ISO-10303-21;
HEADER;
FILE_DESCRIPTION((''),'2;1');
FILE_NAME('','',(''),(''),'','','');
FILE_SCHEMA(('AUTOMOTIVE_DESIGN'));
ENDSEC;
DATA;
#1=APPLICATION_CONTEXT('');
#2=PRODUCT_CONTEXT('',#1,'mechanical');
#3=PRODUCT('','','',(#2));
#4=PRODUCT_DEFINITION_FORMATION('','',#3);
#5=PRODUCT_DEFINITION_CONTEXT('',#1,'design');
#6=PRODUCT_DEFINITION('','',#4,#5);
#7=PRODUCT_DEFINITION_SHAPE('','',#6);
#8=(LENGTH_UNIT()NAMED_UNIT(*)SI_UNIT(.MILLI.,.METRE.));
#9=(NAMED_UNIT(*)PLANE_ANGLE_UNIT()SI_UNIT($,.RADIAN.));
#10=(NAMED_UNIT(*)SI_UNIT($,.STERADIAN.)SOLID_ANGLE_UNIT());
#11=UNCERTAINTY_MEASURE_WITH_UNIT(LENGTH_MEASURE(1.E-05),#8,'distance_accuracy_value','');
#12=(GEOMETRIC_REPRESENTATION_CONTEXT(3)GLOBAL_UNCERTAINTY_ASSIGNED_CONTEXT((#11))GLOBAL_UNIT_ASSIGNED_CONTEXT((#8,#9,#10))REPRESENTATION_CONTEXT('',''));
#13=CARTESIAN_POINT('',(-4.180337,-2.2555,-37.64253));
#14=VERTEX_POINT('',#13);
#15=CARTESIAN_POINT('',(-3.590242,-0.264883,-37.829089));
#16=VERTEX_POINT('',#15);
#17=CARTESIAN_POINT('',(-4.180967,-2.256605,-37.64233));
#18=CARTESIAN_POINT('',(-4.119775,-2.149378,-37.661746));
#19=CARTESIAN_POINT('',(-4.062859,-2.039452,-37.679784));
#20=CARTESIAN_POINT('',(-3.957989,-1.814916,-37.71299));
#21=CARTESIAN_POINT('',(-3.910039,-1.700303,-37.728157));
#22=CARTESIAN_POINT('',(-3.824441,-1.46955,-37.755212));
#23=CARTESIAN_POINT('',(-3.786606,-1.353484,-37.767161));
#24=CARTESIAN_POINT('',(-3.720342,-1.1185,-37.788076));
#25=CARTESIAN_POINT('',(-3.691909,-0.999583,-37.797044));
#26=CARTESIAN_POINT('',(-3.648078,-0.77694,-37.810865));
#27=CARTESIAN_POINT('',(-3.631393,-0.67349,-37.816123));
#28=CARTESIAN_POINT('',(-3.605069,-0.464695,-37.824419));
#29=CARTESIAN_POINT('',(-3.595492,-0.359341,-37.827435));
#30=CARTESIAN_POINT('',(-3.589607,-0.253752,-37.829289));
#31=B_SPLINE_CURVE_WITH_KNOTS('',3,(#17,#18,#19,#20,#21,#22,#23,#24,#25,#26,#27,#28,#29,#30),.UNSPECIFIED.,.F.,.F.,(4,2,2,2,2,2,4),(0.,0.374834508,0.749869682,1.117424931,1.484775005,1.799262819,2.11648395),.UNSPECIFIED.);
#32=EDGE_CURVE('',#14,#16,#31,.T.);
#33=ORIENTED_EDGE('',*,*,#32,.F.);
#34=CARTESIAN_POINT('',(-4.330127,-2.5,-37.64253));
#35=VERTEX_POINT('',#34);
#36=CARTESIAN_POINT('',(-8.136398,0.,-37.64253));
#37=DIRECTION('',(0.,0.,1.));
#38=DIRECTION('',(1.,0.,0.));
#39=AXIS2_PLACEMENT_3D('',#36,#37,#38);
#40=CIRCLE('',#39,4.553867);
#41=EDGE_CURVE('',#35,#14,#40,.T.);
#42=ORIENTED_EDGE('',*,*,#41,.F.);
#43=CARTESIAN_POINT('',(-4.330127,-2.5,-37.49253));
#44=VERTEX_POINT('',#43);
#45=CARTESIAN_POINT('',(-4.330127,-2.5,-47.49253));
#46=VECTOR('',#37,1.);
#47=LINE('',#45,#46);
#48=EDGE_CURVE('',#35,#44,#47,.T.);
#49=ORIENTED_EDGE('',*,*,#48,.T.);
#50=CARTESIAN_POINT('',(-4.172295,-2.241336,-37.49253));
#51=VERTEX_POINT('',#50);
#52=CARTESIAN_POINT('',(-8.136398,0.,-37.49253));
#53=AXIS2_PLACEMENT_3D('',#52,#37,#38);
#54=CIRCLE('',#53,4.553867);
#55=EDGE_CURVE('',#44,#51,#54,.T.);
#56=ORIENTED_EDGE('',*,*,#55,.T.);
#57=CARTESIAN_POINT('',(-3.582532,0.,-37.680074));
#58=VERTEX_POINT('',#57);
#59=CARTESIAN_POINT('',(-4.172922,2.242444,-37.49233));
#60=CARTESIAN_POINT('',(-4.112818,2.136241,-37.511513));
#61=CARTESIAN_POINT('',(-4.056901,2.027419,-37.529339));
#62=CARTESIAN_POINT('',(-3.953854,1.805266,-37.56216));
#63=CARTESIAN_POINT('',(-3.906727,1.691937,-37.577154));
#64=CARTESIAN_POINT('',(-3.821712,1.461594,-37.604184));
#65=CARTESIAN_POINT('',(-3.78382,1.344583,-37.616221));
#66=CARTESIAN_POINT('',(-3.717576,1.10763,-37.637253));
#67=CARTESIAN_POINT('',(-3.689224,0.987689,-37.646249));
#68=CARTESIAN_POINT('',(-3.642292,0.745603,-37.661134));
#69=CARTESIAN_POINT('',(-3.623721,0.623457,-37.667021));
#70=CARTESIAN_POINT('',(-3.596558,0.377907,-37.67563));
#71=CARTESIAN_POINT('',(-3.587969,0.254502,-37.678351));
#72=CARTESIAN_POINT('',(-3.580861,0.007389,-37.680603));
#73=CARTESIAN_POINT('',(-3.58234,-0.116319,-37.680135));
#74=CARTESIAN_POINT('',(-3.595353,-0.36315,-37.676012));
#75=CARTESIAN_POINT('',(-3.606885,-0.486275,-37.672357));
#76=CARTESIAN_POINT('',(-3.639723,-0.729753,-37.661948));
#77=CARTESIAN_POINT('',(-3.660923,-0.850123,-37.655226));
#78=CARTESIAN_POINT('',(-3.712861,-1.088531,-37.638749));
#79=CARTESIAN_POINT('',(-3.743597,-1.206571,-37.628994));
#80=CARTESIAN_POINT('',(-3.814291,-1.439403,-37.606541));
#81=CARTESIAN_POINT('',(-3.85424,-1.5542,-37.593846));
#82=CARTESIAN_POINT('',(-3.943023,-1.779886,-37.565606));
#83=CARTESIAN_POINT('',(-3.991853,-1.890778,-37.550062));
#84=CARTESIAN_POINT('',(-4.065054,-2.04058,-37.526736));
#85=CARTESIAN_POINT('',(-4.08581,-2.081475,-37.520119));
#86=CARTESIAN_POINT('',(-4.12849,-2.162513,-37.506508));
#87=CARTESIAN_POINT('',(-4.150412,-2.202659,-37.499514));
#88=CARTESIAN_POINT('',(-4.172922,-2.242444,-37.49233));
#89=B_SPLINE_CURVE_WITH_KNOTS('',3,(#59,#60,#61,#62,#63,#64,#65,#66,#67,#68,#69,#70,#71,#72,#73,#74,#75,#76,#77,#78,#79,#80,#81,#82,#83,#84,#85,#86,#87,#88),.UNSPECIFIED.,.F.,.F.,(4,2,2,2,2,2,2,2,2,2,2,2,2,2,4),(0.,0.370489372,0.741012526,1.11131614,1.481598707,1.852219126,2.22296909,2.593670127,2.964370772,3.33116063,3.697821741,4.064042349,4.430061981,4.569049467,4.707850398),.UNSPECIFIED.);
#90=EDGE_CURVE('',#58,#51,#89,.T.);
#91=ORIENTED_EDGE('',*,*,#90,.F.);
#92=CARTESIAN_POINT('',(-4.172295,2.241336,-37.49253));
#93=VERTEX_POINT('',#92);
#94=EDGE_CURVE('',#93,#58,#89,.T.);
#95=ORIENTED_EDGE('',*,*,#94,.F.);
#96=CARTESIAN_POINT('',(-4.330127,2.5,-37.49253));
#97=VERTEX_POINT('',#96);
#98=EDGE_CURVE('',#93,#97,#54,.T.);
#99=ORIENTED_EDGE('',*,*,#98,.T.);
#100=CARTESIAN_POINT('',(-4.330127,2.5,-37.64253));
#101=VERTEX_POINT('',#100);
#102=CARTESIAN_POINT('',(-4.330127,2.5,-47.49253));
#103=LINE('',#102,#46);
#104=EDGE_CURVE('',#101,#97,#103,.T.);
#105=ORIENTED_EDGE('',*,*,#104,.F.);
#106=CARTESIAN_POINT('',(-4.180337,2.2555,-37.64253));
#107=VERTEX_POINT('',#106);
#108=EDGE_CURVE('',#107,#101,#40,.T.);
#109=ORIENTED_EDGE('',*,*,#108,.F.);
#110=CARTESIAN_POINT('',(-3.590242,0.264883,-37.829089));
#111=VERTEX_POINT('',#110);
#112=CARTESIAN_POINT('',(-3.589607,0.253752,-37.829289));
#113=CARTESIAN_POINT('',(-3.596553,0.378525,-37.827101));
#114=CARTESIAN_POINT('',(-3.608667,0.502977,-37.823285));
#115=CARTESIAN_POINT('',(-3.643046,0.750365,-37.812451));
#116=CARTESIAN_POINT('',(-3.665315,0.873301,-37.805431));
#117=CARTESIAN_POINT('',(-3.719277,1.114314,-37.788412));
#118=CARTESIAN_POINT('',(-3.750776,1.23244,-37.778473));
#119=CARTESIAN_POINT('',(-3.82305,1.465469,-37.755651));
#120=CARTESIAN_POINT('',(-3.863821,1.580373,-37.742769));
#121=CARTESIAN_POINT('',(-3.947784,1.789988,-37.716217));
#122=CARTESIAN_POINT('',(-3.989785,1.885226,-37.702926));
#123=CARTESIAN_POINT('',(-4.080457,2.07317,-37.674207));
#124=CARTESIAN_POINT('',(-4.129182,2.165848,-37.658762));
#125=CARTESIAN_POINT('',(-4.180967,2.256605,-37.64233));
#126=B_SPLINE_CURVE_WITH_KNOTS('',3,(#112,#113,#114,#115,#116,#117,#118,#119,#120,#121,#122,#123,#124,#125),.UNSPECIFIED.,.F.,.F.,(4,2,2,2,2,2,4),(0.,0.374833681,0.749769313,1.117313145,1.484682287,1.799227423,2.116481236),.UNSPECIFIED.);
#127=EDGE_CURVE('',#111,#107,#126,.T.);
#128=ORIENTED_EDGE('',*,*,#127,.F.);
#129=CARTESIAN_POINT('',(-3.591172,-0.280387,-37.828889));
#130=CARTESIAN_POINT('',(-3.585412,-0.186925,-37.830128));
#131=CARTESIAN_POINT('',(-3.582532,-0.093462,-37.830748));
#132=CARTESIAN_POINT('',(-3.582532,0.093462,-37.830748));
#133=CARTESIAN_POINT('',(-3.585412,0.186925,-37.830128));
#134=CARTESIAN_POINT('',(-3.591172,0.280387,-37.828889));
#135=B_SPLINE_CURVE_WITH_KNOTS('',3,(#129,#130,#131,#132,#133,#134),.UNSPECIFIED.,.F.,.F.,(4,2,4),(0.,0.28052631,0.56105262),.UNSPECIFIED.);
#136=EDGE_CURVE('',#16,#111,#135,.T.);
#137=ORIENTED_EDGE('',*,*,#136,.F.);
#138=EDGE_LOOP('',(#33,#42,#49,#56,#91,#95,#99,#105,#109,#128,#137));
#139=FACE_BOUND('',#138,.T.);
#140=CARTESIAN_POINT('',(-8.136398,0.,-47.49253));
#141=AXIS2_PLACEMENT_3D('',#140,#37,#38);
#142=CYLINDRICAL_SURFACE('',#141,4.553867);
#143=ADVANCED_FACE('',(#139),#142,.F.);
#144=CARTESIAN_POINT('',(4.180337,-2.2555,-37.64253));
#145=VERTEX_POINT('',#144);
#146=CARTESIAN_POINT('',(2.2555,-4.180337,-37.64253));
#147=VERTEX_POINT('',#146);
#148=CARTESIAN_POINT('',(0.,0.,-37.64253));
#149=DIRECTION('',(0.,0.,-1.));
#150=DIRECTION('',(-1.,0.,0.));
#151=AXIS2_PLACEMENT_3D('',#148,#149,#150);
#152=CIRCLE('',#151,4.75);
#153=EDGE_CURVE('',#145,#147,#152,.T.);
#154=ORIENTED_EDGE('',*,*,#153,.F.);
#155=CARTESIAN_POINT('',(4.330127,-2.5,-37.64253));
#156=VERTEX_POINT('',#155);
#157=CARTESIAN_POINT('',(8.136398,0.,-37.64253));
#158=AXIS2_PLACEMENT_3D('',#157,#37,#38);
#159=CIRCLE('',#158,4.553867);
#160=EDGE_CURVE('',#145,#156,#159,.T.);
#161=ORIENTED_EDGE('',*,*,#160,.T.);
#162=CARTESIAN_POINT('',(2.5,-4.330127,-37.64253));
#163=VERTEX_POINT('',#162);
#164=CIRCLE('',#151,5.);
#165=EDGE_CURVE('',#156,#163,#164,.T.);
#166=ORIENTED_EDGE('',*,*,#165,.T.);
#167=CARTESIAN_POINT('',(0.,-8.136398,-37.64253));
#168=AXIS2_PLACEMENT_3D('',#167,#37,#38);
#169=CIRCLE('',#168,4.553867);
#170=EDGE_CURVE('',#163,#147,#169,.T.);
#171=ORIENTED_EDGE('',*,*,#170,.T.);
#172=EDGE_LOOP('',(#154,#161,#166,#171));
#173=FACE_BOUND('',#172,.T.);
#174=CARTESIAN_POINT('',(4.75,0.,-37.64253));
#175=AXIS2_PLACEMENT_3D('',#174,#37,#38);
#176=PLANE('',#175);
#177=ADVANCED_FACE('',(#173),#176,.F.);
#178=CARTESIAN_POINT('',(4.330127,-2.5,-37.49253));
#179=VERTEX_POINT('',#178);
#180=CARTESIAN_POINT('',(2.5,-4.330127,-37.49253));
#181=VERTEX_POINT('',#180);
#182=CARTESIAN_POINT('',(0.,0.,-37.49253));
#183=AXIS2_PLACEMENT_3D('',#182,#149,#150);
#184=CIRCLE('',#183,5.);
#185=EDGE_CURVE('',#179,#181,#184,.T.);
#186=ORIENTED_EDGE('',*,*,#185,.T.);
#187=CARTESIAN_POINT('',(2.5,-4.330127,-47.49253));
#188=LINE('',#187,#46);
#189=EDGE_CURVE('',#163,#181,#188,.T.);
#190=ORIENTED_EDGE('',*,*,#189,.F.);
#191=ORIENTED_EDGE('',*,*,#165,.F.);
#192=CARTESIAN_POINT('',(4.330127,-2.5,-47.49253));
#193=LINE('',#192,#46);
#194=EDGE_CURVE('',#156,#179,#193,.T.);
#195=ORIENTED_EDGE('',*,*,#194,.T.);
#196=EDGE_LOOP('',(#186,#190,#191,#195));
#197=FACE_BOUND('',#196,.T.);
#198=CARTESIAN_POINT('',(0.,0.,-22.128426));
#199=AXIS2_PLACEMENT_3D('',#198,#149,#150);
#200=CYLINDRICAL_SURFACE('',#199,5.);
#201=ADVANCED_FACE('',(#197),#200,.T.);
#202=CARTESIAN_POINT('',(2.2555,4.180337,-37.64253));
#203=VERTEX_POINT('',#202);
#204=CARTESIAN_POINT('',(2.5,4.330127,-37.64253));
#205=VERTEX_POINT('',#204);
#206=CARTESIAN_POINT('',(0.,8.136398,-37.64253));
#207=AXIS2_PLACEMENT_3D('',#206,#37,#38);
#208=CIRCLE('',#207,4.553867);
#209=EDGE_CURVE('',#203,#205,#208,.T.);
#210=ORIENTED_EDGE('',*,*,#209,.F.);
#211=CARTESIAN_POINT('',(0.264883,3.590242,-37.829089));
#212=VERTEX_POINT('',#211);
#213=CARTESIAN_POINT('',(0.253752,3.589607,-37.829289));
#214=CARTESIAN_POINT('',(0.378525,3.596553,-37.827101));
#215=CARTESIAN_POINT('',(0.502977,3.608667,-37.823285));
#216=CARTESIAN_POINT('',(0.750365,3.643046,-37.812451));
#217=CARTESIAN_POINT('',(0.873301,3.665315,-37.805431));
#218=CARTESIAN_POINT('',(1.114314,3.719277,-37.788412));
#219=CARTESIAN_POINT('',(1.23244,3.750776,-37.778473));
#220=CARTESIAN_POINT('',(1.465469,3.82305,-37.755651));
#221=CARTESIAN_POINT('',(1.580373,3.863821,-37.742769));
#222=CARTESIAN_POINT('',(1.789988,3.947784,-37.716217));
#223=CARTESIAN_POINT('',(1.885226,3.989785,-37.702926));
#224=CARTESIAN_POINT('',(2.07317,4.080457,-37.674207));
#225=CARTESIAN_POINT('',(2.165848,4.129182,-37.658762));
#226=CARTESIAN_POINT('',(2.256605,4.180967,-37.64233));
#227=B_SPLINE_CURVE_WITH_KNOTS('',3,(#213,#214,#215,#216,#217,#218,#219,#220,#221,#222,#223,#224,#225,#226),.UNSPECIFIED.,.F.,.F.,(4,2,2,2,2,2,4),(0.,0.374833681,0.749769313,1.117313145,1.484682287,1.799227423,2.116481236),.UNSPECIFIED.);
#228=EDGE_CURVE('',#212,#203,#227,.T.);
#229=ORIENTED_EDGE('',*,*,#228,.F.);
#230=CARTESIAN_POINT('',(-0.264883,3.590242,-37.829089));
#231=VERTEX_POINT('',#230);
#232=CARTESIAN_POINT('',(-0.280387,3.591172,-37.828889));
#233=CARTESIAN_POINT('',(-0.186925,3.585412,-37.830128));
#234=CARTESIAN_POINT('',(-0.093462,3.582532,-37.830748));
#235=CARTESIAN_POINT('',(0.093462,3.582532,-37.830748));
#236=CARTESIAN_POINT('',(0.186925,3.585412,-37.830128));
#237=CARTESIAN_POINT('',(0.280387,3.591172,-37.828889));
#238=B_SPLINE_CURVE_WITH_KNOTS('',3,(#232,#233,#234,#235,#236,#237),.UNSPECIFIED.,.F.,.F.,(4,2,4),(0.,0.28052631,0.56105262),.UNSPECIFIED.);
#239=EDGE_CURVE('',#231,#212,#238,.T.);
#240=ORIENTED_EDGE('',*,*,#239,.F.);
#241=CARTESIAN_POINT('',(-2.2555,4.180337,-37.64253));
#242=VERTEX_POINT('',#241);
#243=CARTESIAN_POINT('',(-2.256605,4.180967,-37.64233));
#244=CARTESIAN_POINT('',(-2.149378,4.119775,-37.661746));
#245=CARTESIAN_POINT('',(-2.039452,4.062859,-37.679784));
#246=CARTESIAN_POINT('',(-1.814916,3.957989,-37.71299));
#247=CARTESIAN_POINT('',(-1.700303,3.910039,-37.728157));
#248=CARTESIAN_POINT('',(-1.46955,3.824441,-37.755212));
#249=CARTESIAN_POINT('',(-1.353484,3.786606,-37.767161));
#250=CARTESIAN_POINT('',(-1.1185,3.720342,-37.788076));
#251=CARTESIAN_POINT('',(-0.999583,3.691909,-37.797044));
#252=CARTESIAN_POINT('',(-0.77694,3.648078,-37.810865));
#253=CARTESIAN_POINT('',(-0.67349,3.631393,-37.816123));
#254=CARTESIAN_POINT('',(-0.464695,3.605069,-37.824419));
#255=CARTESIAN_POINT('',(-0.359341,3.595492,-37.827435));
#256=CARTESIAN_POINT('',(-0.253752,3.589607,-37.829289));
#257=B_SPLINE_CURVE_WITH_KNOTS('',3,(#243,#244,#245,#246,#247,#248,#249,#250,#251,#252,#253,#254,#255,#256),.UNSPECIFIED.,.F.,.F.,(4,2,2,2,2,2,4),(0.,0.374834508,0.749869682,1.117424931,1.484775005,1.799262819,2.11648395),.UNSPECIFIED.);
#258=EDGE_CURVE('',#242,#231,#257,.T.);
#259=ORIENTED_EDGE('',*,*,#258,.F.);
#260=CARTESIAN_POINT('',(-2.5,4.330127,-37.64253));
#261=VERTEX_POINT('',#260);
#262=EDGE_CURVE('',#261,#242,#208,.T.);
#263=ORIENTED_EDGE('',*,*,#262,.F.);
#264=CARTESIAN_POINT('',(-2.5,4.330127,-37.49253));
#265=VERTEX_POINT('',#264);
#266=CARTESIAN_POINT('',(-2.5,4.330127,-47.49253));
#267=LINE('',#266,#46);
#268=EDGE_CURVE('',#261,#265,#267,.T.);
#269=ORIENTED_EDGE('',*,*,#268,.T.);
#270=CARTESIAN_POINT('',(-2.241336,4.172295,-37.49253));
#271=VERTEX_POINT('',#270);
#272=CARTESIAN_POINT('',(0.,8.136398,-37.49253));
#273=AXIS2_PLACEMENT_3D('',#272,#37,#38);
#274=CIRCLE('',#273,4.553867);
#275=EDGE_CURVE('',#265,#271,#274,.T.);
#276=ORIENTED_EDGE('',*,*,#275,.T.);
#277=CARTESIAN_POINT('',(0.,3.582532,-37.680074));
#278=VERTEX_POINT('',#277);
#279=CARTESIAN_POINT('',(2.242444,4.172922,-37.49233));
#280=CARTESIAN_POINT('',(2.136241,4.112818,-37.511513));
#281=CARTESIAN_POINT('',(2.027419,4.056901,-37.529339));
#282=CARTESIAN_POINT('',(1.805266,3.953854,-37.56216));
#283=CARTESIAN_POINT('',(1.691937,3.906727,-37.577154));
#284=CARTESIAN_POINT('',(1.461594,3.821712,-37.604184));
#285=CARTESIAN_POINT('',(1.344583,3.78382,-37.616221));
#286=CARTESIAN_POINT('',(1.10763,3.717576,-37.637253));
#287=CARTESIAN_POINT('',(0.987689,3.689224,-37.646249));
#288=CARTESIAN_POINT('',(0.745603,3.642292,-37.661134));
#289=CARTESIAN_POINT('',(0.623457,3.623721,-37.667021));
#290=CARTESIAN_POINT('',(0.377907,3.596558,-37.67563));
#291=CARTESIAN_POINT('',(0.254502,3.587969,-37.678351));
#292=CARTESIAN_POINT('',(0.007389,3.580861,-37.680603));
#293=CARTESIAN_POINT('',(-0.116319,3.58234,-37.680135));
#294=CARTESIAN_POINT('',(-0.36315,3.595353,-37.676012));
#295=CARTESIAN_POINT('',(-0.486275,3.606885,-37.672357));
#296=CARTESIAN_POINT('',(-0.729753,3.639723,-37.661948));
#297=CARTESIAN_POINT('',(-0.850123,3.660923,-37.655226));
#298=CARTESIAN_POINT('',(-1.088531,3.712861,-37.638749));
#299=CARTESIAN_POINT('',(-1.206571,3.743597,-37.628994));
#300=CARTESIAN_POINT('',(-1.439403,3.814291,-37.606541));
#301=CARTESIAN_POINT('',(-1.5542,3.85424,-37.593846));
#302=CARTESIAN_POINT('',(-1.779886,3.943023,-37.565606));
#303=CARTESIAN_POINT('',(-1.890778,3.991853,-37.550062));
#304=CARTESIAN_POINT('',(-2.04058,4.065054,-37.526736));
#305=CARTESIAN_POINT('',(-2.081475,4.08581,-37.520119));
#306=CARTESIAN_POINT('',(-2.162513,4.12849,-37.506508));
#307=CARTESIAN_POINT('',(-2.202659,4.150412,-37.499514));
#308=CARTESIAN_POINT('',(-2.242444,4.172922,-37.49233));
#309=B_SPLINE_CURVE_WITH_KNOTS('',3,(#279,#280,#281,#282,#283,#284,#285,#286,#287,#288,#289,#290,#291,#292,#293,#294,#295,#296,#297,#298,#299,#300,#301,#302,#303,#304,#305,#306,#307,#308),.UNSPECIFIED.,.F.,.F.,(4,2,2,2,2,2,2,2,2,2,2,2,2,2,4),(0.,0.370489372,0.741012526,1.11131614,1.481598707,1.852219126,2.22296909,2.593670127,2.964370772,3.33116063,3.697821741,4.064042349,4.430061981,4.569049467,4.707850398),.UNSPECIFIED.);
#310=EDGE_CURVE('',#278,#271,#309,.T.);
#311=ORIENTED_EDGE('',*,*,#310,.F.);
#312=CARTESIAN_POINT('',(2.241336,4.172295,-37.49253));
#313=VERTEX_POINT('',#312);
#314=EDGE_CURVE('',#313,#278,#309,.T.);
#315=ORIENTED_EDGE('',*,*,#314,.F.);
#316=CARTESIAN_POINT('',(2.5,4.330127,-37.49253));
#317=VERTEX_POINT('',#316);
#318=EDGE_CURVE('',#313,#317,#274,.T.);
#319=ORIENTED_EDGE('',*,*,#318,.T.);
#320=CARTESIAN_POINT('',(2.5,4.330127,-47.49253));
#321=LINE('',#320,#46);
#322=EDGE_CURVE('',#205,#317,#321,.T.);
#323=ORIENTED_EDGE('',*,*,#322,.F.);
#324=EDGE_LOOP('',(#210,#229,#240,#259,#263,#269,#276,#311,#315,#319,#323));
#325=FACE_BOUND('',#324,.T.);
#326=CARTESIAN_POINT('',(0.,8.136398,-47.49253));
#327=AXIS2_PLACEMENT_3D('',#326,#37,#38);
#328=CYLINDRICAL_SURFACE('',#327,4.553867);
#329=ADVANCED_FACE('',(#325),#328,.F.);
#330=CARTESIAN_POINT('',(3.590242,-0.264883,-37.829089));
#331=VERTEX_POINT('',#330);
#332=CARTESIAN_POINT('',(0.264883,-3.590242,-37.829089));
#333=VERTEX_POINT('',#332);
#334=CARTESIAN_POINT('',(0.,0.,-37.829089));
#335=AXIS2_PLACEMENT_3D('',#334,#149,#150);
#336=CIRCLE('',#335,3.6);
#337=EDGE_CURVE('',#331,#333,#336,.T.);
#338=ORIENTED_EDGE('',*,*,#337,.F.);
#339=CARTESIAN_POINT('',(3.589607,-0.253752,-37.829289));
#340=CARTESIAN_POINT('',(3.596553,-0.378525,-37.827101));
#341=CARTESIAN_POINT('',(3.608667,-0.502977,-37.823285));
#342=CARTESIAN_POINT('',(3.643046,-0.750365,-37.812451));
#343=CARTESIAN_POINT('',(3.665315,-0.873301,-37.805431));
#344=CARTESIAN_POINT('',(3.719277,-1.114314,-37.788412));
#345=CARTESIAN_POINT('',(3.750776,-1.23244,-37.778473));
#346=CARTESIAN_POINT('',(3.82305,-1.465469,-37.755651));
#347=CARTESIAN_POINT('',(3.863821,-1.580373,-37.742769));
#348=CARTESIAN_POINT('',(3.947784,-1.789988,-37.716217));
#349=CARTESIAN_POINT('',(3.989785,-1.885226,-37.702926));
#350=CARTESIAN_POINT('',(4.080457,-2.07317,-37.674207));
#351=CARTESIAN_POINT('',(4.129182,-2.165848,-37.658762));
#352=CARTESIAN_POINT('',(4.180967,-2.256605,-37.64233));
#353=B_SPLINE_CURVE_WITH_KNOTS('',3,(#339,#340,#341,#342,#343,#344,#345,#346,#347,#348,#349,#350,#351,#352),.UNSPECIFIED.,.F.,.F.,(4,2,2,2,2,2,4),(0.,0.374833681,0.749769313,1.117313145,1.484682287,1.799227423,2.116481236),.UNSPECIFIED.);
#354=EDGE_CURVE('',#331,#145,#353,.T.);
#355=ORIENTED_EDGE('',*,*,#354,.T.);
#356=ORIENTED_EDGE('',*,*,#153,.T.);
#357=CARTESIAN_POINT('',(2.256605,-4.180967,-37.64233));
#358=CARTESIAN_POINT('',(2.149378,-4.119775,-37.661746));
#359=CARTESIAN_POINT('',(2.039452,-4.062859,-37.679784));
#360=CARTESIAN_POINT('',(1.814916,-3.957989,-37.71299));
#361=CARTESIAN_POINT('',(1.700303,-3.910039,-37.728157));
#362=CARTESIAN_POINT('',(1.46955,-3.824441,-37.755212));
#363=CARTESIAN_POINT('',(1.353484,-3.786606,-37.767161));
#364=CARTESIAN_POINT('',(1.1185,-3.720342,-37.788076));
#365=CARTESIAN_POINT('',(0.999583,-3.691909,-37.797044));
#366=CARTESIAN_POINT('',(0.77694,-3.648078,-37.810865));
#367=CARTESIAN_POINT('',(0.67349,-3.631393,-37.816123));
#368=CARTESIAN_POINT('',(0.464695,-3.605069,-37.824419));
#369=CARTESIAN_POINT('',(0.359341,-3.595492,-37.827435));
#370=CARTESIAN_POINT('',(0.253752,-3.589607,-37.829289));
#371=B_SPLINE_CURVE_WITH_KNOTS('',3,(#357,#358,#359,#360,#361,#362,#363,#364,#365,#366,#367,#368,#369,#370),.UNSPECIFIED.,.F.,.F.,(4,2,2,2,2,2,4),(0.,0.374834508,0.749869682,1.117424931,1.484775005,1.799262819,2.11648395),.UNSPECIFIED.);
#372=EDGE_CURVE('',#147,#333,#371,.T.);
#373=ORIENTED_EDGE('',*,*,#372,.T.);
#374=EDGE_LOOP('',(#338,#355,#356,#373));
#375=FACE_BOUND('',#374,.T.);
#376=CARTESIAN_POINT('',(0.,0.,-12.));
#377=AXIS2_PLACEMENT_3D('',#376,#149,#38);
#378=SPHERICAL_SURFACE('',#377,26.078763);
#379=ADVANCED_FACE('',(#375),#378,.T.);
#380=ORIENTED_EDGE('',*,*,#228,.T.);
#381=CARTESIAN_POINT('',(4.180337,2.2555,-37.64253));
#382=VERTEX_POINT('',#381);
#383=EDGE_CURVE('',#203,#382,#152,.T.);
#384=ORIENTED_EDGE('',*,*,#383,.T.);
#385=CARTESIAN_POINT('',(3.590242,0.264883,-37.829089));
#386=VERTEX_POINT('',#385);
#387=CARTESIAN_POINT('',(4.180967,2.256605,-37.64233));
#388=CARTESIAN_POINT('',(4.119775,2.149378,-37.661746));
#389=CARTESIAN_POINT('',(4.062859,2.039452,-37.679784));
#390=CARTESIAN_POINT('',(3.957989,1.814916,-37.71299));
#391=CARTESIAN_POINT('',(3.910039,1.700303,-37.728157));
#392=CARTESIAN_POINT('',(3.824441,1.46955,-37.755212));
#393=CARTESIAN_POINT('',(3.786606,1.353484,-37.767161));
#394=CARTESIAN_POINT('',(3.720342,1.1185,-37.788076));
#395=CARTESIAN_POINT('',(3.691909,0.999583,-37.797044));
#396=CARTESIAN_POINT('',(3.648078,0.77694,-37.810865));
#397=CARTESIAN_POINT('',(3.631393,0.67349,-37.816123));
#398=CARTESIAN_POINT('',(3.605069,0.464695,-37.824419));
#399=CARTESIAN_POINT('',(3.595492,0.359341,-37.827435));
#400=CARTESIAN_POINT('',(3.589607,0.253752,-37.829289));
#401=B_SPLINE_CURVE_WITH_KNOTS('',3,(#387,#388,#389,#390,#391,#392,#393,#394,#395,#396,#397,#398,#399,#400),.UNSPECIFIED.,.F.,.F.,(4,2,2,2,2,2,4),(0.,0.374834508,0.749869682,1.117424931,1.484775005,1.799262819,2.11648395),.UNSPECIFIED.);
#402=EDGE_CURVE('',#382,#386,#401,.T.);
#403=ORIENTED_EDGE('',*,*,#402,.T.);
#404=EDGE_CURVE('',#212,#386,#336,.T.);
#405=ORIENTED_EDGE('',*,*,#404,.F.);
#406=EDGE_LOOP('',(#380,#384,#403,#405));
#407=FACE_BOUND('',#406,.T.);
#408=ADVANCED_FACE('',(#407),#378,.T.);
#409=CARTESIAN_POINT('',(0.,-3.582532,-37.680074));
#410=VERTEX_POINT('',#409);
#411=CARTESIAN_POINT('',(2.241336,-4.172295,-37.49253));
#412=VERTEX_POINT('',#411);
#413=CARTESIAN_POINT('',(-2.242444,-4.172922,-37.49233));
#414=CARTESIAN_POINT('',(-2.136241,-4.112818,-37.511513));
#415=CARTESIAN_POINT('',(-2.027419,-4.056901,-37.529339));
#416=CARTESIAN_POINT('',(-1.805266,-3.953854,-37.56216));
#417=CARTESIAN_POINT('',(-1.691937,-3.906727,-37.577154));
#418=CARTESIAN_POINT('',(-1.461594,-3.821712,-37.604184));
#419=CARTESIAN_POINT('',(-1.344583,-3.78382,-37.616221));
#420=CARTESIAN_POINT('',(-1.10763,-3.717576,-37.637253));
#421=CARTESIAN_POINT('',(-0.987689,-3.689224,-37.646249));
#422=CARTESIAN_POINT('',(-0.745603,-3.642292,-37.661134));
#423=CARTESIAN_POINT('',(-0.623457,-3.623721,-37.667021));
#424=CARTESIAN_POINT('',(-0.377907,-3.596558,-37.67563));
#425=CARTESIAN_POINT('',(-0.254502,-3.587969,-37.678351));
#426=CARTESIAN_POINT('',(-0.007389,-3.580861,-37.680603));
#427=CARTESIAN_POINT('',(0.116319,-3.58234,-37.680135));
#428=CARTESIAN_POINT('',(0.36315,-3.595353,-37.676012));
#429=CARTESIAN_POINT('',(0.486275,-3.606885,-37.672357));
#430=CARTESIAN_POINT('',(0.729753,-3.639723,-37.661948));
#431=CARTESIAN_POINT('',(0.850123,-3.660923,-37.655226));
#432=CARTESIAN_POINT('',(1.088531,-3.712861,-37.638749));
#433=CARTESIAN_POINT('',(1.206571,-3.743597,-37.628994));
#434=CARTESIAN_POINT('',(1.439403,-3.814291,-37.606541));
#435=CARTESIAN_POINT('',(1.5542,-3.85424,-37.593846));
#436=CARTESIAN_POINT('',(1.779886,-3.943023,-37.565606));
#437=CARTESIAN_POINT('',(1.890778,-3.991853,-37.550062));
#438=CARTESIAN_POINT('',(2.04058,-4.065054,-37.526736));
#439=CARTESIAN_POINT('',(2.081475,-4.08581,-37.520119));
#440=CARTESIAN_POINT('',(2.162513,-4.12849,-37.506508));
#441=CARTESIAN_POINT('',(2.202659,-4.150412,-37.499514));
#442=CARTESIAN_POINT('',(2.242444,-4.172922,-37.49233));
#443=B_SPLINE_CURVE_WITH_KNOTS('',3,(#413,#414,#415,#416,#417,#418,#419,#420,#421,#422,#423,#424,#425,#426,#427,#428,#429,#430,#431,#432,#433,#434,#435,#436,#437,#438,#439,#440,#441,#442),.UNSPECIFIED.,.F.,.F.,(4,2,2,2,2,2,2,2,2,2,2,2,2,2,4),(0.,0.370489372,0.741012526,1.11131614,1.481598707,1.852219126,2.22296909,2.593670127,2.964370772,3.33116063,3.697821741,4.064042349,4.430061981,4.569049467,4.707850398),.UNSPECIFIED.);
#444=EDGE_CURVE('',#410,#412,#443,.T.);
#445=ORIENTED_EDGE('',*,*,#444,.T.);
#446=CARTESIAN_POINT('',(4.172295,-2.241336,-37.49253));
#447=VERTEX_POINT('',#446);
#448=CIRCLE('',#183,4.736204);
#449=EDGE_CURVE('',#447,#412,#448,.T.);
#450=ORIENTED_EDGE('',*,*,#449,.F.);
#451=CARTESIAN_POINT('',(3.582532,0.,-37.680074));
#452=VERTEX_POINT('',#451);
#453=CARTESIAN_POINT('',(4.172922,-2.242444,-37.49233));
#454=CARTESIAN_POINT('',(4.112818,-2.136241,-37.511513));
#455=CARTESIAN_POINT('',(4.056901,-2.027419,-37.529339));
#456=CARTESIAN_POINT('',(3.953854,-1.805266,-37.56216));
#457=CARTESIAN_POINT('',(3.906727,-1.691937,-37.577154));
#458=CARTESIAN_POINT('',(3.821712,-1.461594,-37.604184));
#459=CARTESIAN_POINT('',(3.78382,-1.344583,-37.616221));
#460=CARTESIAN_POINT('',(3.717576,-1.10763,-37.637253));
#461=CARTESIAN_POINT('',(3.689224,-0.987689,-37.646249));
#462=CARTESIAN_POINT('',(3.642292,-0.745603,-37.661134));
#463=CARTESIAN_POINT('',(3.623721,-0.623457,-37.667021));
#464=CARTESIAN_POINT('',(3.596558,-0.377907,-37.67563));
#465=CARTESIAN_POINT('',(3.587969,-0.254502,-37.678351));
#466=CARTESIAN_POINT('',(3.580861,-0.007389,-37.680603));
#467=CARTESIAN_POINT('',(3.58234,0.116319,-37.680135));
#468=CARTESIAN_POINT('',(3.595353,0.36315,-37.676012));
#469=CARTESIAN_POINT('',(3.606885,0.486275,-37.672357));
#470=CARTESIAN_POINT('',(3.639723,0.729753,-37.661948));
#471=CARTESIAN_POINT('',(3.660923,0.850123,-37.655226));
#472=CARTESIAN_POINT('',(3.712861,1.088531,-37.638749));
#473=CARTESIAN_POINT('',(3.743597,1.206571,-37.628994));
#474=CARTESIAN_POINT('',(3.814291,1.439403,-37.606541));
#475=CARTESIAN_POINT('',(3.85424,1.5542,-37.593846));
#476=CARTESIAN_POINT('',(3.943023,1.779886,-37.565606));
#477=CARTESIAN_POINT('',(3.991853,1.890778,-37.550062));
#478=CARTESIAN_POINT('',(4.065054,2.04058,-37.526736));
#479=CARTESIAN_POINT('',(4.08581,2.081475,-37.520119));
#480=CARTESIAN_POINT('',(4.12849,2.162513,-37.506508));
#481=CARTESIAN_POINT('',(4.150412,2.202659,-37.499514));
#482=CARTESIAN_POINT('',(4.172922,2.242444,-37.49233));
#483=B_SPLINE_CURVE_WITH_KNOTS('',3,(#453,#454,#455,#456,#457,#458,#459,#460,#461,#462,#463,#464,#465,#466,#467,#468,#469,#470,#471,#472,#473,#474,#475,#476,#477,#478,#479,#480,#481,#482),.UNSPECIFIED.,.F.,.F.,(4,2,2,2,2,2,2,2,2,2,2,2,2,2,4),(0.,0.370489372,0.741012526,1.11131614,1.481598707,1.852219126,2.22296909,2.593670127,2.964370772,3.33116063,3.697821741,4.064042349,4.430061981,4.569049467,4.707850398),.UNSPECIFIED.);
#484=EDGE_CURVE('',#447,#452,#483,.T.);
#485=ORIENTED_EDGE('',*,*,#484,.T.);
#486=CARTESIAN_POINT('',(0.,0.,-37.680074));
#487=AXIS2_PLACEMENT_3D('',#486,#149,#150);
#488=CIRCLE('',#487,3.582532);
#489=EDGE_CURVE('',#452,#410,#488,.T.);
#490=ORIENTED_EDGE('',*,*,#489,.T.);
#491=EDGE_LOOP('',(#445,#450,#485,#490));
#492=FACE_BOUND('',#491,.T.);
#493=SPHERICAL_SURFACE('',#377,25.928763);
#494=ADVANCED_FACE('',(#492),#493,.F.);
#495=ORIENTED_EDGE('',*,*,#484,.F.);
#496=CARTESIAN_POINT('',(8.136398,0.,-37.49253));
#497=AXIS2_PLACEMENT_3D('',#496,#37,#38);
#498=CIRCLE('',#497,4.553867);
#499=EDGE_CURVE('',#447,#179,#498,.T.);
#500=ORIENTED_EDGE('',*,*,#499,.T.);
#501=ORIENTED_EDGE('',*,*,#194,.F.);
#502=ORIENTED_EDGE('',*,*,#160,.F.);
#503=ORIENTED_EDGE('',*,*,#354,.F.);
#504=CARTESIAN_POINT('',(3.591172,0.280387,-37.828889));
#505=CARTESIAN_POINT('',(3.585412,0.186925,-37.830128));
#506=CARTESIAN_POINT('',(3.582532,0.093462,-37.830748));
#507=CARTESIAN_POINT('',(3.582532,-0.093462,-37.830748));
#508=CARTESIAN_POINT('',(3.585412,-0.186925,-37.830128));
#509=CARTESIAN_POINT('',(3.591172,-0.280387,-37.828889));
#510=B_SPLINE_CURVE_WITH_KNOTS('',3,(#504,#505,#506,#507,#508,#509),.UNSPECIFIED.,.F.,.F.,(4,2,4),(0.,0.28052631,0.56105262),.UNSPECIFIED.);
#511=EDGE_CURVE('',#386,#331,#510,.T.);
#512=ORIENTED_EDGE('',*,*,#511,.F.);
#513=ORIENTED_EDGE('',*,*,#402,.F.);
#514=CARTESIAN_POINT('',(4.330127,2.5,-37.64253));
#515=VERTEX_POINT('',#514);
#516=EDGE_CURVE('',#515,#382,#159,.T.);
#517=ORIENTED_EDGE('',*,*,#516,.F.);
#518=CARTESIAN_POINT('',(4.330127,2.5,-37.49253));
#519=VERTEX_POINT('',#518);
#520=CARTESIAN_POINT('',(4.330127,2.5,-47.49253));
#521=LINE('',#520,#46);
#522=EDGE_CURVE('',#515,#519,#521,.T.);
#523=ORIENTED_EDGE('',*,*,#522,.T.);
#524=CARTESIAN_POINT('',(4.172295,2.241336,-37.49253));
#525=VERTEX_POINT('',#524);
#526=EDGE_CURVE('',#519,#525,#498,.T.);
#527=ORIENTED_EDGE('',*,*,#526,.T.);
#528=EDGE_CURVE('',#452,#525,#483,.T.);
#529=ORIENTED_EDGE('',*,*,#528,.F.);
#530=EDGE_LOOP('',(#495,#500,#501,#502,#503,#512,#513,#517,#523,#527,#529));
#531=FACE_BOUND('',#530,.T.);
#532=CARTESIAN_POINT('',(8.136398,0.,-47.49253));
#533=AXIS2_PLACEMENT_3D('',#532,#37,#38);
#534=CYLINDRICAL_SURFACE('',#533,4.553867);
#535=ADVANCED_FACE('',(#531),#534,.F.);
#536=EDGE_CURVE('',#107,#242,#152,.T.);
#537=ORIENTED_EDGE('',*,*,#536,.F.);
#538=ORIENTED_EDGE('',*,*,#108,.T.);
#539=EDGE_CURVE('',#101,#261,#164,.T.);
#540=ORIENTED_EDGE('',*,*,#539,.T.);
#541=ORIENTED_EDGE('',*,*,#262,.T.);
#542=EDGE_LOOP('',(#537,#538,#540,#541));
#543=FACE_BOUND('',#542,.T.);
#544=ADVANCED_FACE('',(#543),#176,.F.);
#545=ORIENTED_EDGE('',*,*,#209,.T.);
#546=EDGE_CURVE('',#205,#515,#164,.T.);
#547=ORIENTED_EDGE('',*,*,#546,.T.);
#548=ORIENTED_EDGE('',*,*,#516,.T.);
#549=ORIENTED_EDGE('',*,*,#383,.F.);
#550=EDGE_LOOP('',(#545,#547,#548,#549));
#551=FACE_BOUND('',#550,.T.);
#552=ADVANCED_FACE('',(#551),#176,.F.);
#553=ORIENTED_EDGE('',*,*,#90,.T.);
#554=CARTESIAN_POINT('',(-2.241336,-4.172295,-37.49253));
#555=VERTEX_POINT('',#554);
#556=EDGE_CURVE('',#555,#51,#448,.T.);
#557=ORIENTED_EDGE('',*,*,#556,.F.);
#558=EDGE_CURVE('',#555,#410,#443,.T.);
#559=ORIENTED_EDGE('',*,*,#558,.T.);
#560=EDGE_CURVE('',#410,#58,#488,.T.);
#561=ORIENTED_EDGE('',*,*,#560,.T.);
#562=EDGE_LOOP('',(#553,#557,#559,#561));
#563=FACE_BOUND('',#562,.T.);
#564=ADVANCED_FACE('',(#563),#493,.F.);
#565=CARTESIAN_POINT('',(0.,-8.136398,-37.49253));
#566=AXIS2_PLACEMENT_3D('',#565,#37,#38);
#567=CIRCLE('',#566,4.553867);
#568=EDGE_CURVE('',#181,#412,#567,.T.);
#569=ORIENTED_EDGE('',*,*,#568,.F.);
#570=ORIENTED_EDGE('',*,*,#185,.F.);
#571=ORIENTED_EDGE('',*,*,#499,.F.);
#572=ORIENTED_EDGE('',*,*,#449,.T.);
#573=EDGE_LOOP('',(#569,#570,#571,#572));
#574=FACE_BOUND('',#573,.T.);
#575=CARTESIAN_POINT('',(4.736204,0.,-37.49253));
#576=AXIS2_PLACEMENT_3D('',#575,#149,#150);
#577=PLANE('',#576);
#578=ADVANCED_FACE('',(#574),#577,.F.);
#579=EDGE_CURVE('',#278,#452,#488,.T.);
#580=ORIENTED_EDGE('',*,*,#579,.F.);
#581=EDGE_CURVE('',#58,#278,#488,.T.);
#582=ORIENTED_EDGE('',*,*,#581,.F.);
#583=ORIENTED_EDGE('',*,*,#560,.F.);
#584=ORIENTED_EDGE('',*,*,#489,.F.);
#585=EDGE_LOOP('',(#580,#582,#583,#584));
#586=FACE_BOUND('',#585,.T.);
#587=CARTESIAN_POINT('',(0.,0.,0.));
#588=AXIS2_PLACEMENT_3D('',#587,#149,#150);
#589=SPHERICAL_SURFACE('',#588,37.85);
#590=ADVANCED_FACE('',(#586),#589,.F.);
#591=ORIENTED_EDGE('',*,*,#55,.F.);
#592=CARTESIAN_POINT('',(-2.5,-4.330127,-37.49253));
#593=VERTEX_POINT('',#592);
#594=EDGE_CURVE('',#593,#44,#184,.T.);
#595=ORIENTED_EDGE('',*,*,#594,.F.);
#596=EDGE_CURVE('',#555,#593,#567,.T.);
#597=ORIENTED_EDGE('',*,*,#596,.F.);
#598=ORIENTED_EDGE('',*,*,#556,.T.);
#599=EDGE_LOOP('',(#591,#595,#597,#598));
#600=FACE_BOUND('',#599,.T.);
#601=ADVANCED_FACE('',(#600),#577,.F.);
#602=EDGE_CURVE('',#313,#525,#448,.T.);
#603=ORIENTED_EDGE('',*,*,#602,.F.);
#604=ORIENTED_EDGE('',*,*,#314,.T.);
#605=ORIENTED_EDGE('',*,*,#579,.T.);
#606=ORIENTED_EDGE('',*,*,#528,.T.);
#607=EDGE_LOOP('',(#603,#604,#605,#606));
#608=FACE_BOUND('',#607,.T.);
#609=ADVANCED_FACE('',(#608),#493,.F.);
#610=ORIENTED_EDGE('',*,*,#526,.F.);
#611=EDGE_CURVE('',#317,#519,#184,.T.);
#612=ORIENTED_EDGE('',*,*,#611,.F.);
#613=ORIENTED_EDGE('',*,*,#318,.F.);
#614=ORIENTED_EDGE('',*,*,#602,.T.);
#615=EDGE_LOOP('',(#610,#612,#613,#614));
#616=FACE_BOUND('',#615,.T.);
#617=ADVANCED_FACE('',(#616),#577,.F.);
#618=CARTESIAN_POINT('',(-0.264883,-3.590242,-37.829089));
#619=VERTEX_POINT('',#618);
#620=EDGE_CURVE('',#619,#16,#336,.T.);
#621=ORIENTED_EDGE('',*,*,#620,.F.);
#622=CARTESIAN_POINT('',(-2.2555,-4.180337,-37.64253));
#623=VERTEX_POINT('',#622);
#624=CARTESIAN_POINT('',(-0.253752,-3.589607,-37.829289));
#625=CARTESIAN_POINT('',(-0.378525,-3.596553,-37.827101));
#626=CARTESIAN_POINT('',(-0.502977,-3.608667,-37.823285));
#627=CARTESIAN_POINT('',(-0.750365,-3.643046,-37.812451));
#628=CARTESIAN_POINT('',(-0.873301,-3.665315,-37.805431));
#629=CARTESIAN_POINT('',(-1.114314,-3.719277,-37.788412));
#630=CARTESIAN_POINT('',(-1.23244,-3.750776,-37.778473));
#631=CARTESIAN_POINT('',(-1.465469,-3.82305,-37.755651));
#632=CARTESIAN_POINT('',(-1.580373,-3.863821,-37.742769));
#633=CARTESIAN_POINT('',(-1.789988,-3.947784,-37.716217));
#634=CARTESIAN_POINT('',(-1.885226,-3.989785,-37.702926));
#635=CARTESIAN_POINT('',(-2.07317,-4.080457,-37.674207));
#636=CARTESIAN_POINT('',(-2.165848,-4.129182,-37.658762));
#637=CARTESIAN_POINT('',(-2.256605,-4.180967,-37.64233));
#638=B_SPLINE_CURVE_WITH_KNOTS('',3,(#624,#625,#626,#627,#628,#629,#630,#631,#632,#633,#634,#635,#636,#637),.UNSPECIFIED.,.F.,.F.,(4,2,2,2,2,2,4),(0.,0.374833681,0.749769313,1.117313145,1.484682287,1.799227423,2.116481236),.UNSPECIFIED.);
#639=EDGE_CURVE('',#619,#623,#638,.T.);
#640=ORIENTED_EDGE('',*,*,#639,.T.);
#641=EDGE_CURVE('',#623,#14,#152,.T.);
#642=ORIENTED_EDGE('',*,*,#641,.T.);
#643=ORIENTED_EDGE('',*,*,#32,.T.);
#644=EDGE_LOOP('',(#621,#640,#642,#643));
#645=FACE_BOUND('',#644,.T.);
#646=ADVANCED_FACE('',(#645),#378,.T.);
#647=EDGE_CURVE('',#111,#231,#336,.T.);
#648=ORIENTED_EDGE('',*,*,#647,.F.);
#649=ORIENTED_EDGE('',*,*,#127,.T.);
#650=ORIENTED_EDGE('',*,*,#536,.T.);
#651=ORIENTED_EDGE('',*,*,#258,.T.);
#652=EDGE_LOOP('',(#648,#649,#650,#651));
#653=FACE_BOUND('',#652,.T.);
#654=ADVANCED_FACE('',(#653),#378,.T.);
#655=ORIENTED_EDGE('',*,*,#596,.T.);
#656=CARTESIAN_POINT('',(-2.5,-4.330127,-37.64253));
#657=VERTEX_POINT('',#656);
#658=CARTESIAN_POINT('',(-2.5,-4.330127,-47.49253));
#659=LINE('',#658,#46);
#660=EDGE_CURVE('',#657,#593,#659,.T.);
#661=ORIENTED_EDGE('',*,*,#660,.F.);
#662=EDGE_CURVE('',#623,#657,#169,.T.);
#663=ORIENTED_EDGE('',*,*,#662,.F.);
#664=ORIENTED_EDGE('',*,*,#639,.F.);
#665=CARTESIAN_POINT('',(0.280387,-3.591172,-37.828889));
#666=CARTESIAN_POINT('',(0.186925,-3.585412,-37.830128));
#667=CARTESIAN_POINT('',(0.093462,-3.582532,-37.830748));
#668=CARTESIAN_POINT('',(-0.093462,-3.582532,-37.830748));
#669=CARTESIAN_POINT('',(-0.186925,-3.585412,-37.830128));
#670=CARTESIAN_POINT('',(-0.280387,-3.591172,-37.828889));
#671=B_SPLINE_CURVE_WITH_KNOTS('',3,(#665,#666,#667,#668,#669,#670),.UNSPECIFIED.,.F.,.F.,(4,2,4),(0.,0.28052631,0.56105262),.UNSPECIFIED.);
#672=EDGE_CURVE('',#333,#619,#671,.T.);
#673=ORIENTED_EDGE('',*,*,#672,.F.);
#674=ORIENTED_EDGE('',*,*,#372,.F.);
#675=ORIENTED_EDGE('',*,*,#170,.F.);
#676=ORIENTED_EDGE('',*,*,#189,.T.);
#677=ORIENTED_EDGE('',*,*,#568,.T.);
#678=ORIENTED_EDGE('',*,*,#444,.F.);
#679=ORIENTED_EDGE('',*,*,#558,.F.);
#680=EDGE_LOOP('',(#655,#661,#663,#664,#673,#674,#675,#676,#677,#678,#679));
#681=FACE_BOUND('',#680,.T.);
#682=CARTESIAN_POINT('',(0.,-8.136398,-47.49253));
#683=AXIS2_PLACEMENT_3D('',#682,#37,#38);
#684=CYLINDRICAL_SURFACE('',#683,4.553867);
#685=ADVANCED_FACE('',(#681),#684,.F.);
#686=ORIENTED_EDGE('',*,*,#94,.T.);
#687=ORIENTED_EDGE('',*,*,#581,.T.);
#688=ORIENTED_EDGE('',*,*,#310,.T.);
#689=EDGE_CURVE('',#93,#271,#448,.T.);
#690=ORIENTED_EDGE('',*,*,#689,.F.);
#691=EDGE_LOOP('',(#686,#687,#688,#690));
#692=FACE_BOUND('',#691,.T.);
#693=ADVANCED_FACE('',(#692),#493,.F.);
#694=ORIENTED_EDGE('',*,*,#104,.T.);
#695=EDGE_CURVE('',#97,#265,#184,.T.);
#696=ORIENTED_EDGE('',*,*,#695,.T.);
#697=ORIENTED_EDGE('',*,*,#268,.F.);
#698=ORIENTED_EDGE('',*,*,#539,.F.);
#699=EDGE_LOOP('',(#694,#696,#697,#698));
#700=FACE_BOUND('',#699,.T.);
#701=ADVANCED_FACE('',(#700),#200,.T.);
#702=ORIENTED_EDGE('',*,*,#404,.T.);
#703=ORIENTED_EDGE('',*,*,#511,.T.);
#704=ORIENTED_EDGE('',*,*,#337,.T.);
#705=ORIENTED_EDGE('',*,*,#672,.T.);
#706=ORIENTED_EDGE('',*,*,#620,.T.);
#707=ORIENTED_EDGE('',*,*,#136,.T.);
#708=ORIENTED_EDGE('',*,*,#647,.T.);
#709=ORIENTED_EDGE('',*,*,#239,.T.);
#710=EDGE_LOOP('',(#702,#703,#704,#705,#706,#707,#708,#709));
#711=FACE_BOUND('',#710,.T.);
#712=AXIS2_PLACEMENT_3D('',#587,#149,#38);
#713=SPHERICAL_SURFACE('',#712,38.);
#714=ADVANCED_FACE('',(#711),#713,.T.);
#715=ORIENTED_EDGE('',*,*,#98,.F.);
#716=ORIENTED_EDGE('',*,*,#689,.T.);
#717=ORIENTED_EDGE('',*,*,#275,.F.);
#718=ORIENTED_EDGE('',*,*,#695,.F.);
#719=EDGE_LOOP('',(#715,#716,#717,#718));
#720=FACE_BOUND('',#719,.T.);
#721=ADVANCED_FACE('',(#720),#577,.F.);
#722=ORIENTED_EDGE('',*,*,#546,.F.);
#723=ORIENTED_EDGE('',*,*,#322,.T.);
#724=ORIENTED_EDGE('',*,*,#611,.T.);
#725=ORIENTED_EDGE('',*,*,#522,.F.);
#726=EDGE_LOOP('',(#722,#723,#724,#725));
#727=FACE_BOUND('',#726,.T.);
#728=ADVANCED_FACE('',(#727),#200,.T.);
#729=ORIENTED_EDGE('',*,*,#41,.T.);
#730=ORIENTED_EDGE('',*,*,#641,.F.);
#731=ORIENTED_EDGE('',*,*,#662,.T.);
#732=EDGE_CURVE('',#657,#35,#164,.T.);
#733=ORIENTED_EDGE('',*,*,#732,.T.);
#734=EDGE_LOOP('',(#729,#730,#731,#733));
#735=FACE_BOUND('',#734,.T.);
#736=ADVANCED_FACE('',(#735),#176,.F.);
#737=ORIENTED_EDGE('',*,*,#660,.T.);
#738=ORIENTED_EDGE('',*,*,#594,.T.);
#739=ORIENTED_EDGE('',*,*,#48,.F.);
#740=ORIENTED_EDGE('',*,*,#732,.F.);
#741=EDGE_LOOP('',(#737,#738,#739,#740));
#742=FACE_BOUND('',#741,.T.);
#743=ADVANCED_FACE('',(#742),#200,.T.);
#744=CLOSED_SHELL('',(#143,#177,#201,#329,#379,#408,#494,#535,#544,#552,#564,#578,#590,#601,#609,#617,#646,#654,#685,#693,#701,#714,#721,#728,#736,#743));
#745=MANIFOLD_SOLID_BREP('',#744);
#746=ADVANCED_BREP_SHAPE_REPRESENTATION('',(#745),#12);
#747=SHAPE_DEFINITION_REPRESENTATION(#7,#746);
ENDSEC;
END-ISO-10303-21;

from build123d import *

# Parameters (mm, degrees)
CUT_EXTRUDE_1_DEPTH = 10


with BuildPart() as part:
    # 草图1 → 旋转5 (revolve)
    with BuildSketch(Plane(origin=(0, 0, 0), x_dir=(1, 0, 0), z_dir=(0, 1, 0))):
        with BuildLine():
            Line((4.75, 37.642530217), (5, 37.642530217))
            Line((5, 37.642530217), (5, 37.492530217))
            Line((5, 37.492530217), (4.736204208, 37.492530217))
            ThreePointArc((4.736204208, 37.492530217), (4.160424845, 37.592803525), (3.58253169, 37.680073868))
            ThreePointArc((3.58253169, 37.680073868), (1.793279691, 37.8074946), (0, 37.85))
            Line((0, 37.85), (0, 38))
            ThreePointArc((0, 38), (1.802027362, 37.957248285), (3.6, 37.829089336))
            ThreePointArc((3.6, 37.829089336), (4.176041915, 37.742232418), (4.75, 37.642530217))
        make_face()
    revolve(axis=Axis((0, 0, -22.128426055), (0, 0, 1)))

    # 草图2 → 切除-拉伸1 (cut)
    with BuildSketch(Plane.XY.offset(-37.492530217)):
        with BuildLine():
            ThreePointArc((4.330127019, -2.5), (5, 0), (4.330127019, 2.5))
            ThreePointArc((4.330127019, 2.5), (3.58253169, 0), (4.330127019, -2.5))
        make_face()
        with BuildLine():
            ThreePointArc((2.5, 4.330127019), (0, 5), (-2.5, 4.330127019))
            ThreePointArc((-2.5, 4.330127019), (0, 3.58253169), (2.5, 4.330127019))
        make_face()
        with BuildLine():
            ThreePointArc((-2.5, -4.330127019), (0, -5), (2.5, -4.330127019))
            ThreePointArc((2.5, -4.330127019), (0, -3.58253169), (-2.5, -4.330127019))
        make_face()
        with BuildLine():
            ThreePointArc((-4.330127019, 2.5), (-5, 0), (-4.330127019, -2.5))
            ThreePointArc((-4.330127019, -2.5), (-3.58253169, 0), (-4.330127019, 2.5))
        make_face()
    extrude(amount=-CUT_EXTRUDE_1_DEPTH, mode=Mode.SUBTRACT)


solid = part.part
